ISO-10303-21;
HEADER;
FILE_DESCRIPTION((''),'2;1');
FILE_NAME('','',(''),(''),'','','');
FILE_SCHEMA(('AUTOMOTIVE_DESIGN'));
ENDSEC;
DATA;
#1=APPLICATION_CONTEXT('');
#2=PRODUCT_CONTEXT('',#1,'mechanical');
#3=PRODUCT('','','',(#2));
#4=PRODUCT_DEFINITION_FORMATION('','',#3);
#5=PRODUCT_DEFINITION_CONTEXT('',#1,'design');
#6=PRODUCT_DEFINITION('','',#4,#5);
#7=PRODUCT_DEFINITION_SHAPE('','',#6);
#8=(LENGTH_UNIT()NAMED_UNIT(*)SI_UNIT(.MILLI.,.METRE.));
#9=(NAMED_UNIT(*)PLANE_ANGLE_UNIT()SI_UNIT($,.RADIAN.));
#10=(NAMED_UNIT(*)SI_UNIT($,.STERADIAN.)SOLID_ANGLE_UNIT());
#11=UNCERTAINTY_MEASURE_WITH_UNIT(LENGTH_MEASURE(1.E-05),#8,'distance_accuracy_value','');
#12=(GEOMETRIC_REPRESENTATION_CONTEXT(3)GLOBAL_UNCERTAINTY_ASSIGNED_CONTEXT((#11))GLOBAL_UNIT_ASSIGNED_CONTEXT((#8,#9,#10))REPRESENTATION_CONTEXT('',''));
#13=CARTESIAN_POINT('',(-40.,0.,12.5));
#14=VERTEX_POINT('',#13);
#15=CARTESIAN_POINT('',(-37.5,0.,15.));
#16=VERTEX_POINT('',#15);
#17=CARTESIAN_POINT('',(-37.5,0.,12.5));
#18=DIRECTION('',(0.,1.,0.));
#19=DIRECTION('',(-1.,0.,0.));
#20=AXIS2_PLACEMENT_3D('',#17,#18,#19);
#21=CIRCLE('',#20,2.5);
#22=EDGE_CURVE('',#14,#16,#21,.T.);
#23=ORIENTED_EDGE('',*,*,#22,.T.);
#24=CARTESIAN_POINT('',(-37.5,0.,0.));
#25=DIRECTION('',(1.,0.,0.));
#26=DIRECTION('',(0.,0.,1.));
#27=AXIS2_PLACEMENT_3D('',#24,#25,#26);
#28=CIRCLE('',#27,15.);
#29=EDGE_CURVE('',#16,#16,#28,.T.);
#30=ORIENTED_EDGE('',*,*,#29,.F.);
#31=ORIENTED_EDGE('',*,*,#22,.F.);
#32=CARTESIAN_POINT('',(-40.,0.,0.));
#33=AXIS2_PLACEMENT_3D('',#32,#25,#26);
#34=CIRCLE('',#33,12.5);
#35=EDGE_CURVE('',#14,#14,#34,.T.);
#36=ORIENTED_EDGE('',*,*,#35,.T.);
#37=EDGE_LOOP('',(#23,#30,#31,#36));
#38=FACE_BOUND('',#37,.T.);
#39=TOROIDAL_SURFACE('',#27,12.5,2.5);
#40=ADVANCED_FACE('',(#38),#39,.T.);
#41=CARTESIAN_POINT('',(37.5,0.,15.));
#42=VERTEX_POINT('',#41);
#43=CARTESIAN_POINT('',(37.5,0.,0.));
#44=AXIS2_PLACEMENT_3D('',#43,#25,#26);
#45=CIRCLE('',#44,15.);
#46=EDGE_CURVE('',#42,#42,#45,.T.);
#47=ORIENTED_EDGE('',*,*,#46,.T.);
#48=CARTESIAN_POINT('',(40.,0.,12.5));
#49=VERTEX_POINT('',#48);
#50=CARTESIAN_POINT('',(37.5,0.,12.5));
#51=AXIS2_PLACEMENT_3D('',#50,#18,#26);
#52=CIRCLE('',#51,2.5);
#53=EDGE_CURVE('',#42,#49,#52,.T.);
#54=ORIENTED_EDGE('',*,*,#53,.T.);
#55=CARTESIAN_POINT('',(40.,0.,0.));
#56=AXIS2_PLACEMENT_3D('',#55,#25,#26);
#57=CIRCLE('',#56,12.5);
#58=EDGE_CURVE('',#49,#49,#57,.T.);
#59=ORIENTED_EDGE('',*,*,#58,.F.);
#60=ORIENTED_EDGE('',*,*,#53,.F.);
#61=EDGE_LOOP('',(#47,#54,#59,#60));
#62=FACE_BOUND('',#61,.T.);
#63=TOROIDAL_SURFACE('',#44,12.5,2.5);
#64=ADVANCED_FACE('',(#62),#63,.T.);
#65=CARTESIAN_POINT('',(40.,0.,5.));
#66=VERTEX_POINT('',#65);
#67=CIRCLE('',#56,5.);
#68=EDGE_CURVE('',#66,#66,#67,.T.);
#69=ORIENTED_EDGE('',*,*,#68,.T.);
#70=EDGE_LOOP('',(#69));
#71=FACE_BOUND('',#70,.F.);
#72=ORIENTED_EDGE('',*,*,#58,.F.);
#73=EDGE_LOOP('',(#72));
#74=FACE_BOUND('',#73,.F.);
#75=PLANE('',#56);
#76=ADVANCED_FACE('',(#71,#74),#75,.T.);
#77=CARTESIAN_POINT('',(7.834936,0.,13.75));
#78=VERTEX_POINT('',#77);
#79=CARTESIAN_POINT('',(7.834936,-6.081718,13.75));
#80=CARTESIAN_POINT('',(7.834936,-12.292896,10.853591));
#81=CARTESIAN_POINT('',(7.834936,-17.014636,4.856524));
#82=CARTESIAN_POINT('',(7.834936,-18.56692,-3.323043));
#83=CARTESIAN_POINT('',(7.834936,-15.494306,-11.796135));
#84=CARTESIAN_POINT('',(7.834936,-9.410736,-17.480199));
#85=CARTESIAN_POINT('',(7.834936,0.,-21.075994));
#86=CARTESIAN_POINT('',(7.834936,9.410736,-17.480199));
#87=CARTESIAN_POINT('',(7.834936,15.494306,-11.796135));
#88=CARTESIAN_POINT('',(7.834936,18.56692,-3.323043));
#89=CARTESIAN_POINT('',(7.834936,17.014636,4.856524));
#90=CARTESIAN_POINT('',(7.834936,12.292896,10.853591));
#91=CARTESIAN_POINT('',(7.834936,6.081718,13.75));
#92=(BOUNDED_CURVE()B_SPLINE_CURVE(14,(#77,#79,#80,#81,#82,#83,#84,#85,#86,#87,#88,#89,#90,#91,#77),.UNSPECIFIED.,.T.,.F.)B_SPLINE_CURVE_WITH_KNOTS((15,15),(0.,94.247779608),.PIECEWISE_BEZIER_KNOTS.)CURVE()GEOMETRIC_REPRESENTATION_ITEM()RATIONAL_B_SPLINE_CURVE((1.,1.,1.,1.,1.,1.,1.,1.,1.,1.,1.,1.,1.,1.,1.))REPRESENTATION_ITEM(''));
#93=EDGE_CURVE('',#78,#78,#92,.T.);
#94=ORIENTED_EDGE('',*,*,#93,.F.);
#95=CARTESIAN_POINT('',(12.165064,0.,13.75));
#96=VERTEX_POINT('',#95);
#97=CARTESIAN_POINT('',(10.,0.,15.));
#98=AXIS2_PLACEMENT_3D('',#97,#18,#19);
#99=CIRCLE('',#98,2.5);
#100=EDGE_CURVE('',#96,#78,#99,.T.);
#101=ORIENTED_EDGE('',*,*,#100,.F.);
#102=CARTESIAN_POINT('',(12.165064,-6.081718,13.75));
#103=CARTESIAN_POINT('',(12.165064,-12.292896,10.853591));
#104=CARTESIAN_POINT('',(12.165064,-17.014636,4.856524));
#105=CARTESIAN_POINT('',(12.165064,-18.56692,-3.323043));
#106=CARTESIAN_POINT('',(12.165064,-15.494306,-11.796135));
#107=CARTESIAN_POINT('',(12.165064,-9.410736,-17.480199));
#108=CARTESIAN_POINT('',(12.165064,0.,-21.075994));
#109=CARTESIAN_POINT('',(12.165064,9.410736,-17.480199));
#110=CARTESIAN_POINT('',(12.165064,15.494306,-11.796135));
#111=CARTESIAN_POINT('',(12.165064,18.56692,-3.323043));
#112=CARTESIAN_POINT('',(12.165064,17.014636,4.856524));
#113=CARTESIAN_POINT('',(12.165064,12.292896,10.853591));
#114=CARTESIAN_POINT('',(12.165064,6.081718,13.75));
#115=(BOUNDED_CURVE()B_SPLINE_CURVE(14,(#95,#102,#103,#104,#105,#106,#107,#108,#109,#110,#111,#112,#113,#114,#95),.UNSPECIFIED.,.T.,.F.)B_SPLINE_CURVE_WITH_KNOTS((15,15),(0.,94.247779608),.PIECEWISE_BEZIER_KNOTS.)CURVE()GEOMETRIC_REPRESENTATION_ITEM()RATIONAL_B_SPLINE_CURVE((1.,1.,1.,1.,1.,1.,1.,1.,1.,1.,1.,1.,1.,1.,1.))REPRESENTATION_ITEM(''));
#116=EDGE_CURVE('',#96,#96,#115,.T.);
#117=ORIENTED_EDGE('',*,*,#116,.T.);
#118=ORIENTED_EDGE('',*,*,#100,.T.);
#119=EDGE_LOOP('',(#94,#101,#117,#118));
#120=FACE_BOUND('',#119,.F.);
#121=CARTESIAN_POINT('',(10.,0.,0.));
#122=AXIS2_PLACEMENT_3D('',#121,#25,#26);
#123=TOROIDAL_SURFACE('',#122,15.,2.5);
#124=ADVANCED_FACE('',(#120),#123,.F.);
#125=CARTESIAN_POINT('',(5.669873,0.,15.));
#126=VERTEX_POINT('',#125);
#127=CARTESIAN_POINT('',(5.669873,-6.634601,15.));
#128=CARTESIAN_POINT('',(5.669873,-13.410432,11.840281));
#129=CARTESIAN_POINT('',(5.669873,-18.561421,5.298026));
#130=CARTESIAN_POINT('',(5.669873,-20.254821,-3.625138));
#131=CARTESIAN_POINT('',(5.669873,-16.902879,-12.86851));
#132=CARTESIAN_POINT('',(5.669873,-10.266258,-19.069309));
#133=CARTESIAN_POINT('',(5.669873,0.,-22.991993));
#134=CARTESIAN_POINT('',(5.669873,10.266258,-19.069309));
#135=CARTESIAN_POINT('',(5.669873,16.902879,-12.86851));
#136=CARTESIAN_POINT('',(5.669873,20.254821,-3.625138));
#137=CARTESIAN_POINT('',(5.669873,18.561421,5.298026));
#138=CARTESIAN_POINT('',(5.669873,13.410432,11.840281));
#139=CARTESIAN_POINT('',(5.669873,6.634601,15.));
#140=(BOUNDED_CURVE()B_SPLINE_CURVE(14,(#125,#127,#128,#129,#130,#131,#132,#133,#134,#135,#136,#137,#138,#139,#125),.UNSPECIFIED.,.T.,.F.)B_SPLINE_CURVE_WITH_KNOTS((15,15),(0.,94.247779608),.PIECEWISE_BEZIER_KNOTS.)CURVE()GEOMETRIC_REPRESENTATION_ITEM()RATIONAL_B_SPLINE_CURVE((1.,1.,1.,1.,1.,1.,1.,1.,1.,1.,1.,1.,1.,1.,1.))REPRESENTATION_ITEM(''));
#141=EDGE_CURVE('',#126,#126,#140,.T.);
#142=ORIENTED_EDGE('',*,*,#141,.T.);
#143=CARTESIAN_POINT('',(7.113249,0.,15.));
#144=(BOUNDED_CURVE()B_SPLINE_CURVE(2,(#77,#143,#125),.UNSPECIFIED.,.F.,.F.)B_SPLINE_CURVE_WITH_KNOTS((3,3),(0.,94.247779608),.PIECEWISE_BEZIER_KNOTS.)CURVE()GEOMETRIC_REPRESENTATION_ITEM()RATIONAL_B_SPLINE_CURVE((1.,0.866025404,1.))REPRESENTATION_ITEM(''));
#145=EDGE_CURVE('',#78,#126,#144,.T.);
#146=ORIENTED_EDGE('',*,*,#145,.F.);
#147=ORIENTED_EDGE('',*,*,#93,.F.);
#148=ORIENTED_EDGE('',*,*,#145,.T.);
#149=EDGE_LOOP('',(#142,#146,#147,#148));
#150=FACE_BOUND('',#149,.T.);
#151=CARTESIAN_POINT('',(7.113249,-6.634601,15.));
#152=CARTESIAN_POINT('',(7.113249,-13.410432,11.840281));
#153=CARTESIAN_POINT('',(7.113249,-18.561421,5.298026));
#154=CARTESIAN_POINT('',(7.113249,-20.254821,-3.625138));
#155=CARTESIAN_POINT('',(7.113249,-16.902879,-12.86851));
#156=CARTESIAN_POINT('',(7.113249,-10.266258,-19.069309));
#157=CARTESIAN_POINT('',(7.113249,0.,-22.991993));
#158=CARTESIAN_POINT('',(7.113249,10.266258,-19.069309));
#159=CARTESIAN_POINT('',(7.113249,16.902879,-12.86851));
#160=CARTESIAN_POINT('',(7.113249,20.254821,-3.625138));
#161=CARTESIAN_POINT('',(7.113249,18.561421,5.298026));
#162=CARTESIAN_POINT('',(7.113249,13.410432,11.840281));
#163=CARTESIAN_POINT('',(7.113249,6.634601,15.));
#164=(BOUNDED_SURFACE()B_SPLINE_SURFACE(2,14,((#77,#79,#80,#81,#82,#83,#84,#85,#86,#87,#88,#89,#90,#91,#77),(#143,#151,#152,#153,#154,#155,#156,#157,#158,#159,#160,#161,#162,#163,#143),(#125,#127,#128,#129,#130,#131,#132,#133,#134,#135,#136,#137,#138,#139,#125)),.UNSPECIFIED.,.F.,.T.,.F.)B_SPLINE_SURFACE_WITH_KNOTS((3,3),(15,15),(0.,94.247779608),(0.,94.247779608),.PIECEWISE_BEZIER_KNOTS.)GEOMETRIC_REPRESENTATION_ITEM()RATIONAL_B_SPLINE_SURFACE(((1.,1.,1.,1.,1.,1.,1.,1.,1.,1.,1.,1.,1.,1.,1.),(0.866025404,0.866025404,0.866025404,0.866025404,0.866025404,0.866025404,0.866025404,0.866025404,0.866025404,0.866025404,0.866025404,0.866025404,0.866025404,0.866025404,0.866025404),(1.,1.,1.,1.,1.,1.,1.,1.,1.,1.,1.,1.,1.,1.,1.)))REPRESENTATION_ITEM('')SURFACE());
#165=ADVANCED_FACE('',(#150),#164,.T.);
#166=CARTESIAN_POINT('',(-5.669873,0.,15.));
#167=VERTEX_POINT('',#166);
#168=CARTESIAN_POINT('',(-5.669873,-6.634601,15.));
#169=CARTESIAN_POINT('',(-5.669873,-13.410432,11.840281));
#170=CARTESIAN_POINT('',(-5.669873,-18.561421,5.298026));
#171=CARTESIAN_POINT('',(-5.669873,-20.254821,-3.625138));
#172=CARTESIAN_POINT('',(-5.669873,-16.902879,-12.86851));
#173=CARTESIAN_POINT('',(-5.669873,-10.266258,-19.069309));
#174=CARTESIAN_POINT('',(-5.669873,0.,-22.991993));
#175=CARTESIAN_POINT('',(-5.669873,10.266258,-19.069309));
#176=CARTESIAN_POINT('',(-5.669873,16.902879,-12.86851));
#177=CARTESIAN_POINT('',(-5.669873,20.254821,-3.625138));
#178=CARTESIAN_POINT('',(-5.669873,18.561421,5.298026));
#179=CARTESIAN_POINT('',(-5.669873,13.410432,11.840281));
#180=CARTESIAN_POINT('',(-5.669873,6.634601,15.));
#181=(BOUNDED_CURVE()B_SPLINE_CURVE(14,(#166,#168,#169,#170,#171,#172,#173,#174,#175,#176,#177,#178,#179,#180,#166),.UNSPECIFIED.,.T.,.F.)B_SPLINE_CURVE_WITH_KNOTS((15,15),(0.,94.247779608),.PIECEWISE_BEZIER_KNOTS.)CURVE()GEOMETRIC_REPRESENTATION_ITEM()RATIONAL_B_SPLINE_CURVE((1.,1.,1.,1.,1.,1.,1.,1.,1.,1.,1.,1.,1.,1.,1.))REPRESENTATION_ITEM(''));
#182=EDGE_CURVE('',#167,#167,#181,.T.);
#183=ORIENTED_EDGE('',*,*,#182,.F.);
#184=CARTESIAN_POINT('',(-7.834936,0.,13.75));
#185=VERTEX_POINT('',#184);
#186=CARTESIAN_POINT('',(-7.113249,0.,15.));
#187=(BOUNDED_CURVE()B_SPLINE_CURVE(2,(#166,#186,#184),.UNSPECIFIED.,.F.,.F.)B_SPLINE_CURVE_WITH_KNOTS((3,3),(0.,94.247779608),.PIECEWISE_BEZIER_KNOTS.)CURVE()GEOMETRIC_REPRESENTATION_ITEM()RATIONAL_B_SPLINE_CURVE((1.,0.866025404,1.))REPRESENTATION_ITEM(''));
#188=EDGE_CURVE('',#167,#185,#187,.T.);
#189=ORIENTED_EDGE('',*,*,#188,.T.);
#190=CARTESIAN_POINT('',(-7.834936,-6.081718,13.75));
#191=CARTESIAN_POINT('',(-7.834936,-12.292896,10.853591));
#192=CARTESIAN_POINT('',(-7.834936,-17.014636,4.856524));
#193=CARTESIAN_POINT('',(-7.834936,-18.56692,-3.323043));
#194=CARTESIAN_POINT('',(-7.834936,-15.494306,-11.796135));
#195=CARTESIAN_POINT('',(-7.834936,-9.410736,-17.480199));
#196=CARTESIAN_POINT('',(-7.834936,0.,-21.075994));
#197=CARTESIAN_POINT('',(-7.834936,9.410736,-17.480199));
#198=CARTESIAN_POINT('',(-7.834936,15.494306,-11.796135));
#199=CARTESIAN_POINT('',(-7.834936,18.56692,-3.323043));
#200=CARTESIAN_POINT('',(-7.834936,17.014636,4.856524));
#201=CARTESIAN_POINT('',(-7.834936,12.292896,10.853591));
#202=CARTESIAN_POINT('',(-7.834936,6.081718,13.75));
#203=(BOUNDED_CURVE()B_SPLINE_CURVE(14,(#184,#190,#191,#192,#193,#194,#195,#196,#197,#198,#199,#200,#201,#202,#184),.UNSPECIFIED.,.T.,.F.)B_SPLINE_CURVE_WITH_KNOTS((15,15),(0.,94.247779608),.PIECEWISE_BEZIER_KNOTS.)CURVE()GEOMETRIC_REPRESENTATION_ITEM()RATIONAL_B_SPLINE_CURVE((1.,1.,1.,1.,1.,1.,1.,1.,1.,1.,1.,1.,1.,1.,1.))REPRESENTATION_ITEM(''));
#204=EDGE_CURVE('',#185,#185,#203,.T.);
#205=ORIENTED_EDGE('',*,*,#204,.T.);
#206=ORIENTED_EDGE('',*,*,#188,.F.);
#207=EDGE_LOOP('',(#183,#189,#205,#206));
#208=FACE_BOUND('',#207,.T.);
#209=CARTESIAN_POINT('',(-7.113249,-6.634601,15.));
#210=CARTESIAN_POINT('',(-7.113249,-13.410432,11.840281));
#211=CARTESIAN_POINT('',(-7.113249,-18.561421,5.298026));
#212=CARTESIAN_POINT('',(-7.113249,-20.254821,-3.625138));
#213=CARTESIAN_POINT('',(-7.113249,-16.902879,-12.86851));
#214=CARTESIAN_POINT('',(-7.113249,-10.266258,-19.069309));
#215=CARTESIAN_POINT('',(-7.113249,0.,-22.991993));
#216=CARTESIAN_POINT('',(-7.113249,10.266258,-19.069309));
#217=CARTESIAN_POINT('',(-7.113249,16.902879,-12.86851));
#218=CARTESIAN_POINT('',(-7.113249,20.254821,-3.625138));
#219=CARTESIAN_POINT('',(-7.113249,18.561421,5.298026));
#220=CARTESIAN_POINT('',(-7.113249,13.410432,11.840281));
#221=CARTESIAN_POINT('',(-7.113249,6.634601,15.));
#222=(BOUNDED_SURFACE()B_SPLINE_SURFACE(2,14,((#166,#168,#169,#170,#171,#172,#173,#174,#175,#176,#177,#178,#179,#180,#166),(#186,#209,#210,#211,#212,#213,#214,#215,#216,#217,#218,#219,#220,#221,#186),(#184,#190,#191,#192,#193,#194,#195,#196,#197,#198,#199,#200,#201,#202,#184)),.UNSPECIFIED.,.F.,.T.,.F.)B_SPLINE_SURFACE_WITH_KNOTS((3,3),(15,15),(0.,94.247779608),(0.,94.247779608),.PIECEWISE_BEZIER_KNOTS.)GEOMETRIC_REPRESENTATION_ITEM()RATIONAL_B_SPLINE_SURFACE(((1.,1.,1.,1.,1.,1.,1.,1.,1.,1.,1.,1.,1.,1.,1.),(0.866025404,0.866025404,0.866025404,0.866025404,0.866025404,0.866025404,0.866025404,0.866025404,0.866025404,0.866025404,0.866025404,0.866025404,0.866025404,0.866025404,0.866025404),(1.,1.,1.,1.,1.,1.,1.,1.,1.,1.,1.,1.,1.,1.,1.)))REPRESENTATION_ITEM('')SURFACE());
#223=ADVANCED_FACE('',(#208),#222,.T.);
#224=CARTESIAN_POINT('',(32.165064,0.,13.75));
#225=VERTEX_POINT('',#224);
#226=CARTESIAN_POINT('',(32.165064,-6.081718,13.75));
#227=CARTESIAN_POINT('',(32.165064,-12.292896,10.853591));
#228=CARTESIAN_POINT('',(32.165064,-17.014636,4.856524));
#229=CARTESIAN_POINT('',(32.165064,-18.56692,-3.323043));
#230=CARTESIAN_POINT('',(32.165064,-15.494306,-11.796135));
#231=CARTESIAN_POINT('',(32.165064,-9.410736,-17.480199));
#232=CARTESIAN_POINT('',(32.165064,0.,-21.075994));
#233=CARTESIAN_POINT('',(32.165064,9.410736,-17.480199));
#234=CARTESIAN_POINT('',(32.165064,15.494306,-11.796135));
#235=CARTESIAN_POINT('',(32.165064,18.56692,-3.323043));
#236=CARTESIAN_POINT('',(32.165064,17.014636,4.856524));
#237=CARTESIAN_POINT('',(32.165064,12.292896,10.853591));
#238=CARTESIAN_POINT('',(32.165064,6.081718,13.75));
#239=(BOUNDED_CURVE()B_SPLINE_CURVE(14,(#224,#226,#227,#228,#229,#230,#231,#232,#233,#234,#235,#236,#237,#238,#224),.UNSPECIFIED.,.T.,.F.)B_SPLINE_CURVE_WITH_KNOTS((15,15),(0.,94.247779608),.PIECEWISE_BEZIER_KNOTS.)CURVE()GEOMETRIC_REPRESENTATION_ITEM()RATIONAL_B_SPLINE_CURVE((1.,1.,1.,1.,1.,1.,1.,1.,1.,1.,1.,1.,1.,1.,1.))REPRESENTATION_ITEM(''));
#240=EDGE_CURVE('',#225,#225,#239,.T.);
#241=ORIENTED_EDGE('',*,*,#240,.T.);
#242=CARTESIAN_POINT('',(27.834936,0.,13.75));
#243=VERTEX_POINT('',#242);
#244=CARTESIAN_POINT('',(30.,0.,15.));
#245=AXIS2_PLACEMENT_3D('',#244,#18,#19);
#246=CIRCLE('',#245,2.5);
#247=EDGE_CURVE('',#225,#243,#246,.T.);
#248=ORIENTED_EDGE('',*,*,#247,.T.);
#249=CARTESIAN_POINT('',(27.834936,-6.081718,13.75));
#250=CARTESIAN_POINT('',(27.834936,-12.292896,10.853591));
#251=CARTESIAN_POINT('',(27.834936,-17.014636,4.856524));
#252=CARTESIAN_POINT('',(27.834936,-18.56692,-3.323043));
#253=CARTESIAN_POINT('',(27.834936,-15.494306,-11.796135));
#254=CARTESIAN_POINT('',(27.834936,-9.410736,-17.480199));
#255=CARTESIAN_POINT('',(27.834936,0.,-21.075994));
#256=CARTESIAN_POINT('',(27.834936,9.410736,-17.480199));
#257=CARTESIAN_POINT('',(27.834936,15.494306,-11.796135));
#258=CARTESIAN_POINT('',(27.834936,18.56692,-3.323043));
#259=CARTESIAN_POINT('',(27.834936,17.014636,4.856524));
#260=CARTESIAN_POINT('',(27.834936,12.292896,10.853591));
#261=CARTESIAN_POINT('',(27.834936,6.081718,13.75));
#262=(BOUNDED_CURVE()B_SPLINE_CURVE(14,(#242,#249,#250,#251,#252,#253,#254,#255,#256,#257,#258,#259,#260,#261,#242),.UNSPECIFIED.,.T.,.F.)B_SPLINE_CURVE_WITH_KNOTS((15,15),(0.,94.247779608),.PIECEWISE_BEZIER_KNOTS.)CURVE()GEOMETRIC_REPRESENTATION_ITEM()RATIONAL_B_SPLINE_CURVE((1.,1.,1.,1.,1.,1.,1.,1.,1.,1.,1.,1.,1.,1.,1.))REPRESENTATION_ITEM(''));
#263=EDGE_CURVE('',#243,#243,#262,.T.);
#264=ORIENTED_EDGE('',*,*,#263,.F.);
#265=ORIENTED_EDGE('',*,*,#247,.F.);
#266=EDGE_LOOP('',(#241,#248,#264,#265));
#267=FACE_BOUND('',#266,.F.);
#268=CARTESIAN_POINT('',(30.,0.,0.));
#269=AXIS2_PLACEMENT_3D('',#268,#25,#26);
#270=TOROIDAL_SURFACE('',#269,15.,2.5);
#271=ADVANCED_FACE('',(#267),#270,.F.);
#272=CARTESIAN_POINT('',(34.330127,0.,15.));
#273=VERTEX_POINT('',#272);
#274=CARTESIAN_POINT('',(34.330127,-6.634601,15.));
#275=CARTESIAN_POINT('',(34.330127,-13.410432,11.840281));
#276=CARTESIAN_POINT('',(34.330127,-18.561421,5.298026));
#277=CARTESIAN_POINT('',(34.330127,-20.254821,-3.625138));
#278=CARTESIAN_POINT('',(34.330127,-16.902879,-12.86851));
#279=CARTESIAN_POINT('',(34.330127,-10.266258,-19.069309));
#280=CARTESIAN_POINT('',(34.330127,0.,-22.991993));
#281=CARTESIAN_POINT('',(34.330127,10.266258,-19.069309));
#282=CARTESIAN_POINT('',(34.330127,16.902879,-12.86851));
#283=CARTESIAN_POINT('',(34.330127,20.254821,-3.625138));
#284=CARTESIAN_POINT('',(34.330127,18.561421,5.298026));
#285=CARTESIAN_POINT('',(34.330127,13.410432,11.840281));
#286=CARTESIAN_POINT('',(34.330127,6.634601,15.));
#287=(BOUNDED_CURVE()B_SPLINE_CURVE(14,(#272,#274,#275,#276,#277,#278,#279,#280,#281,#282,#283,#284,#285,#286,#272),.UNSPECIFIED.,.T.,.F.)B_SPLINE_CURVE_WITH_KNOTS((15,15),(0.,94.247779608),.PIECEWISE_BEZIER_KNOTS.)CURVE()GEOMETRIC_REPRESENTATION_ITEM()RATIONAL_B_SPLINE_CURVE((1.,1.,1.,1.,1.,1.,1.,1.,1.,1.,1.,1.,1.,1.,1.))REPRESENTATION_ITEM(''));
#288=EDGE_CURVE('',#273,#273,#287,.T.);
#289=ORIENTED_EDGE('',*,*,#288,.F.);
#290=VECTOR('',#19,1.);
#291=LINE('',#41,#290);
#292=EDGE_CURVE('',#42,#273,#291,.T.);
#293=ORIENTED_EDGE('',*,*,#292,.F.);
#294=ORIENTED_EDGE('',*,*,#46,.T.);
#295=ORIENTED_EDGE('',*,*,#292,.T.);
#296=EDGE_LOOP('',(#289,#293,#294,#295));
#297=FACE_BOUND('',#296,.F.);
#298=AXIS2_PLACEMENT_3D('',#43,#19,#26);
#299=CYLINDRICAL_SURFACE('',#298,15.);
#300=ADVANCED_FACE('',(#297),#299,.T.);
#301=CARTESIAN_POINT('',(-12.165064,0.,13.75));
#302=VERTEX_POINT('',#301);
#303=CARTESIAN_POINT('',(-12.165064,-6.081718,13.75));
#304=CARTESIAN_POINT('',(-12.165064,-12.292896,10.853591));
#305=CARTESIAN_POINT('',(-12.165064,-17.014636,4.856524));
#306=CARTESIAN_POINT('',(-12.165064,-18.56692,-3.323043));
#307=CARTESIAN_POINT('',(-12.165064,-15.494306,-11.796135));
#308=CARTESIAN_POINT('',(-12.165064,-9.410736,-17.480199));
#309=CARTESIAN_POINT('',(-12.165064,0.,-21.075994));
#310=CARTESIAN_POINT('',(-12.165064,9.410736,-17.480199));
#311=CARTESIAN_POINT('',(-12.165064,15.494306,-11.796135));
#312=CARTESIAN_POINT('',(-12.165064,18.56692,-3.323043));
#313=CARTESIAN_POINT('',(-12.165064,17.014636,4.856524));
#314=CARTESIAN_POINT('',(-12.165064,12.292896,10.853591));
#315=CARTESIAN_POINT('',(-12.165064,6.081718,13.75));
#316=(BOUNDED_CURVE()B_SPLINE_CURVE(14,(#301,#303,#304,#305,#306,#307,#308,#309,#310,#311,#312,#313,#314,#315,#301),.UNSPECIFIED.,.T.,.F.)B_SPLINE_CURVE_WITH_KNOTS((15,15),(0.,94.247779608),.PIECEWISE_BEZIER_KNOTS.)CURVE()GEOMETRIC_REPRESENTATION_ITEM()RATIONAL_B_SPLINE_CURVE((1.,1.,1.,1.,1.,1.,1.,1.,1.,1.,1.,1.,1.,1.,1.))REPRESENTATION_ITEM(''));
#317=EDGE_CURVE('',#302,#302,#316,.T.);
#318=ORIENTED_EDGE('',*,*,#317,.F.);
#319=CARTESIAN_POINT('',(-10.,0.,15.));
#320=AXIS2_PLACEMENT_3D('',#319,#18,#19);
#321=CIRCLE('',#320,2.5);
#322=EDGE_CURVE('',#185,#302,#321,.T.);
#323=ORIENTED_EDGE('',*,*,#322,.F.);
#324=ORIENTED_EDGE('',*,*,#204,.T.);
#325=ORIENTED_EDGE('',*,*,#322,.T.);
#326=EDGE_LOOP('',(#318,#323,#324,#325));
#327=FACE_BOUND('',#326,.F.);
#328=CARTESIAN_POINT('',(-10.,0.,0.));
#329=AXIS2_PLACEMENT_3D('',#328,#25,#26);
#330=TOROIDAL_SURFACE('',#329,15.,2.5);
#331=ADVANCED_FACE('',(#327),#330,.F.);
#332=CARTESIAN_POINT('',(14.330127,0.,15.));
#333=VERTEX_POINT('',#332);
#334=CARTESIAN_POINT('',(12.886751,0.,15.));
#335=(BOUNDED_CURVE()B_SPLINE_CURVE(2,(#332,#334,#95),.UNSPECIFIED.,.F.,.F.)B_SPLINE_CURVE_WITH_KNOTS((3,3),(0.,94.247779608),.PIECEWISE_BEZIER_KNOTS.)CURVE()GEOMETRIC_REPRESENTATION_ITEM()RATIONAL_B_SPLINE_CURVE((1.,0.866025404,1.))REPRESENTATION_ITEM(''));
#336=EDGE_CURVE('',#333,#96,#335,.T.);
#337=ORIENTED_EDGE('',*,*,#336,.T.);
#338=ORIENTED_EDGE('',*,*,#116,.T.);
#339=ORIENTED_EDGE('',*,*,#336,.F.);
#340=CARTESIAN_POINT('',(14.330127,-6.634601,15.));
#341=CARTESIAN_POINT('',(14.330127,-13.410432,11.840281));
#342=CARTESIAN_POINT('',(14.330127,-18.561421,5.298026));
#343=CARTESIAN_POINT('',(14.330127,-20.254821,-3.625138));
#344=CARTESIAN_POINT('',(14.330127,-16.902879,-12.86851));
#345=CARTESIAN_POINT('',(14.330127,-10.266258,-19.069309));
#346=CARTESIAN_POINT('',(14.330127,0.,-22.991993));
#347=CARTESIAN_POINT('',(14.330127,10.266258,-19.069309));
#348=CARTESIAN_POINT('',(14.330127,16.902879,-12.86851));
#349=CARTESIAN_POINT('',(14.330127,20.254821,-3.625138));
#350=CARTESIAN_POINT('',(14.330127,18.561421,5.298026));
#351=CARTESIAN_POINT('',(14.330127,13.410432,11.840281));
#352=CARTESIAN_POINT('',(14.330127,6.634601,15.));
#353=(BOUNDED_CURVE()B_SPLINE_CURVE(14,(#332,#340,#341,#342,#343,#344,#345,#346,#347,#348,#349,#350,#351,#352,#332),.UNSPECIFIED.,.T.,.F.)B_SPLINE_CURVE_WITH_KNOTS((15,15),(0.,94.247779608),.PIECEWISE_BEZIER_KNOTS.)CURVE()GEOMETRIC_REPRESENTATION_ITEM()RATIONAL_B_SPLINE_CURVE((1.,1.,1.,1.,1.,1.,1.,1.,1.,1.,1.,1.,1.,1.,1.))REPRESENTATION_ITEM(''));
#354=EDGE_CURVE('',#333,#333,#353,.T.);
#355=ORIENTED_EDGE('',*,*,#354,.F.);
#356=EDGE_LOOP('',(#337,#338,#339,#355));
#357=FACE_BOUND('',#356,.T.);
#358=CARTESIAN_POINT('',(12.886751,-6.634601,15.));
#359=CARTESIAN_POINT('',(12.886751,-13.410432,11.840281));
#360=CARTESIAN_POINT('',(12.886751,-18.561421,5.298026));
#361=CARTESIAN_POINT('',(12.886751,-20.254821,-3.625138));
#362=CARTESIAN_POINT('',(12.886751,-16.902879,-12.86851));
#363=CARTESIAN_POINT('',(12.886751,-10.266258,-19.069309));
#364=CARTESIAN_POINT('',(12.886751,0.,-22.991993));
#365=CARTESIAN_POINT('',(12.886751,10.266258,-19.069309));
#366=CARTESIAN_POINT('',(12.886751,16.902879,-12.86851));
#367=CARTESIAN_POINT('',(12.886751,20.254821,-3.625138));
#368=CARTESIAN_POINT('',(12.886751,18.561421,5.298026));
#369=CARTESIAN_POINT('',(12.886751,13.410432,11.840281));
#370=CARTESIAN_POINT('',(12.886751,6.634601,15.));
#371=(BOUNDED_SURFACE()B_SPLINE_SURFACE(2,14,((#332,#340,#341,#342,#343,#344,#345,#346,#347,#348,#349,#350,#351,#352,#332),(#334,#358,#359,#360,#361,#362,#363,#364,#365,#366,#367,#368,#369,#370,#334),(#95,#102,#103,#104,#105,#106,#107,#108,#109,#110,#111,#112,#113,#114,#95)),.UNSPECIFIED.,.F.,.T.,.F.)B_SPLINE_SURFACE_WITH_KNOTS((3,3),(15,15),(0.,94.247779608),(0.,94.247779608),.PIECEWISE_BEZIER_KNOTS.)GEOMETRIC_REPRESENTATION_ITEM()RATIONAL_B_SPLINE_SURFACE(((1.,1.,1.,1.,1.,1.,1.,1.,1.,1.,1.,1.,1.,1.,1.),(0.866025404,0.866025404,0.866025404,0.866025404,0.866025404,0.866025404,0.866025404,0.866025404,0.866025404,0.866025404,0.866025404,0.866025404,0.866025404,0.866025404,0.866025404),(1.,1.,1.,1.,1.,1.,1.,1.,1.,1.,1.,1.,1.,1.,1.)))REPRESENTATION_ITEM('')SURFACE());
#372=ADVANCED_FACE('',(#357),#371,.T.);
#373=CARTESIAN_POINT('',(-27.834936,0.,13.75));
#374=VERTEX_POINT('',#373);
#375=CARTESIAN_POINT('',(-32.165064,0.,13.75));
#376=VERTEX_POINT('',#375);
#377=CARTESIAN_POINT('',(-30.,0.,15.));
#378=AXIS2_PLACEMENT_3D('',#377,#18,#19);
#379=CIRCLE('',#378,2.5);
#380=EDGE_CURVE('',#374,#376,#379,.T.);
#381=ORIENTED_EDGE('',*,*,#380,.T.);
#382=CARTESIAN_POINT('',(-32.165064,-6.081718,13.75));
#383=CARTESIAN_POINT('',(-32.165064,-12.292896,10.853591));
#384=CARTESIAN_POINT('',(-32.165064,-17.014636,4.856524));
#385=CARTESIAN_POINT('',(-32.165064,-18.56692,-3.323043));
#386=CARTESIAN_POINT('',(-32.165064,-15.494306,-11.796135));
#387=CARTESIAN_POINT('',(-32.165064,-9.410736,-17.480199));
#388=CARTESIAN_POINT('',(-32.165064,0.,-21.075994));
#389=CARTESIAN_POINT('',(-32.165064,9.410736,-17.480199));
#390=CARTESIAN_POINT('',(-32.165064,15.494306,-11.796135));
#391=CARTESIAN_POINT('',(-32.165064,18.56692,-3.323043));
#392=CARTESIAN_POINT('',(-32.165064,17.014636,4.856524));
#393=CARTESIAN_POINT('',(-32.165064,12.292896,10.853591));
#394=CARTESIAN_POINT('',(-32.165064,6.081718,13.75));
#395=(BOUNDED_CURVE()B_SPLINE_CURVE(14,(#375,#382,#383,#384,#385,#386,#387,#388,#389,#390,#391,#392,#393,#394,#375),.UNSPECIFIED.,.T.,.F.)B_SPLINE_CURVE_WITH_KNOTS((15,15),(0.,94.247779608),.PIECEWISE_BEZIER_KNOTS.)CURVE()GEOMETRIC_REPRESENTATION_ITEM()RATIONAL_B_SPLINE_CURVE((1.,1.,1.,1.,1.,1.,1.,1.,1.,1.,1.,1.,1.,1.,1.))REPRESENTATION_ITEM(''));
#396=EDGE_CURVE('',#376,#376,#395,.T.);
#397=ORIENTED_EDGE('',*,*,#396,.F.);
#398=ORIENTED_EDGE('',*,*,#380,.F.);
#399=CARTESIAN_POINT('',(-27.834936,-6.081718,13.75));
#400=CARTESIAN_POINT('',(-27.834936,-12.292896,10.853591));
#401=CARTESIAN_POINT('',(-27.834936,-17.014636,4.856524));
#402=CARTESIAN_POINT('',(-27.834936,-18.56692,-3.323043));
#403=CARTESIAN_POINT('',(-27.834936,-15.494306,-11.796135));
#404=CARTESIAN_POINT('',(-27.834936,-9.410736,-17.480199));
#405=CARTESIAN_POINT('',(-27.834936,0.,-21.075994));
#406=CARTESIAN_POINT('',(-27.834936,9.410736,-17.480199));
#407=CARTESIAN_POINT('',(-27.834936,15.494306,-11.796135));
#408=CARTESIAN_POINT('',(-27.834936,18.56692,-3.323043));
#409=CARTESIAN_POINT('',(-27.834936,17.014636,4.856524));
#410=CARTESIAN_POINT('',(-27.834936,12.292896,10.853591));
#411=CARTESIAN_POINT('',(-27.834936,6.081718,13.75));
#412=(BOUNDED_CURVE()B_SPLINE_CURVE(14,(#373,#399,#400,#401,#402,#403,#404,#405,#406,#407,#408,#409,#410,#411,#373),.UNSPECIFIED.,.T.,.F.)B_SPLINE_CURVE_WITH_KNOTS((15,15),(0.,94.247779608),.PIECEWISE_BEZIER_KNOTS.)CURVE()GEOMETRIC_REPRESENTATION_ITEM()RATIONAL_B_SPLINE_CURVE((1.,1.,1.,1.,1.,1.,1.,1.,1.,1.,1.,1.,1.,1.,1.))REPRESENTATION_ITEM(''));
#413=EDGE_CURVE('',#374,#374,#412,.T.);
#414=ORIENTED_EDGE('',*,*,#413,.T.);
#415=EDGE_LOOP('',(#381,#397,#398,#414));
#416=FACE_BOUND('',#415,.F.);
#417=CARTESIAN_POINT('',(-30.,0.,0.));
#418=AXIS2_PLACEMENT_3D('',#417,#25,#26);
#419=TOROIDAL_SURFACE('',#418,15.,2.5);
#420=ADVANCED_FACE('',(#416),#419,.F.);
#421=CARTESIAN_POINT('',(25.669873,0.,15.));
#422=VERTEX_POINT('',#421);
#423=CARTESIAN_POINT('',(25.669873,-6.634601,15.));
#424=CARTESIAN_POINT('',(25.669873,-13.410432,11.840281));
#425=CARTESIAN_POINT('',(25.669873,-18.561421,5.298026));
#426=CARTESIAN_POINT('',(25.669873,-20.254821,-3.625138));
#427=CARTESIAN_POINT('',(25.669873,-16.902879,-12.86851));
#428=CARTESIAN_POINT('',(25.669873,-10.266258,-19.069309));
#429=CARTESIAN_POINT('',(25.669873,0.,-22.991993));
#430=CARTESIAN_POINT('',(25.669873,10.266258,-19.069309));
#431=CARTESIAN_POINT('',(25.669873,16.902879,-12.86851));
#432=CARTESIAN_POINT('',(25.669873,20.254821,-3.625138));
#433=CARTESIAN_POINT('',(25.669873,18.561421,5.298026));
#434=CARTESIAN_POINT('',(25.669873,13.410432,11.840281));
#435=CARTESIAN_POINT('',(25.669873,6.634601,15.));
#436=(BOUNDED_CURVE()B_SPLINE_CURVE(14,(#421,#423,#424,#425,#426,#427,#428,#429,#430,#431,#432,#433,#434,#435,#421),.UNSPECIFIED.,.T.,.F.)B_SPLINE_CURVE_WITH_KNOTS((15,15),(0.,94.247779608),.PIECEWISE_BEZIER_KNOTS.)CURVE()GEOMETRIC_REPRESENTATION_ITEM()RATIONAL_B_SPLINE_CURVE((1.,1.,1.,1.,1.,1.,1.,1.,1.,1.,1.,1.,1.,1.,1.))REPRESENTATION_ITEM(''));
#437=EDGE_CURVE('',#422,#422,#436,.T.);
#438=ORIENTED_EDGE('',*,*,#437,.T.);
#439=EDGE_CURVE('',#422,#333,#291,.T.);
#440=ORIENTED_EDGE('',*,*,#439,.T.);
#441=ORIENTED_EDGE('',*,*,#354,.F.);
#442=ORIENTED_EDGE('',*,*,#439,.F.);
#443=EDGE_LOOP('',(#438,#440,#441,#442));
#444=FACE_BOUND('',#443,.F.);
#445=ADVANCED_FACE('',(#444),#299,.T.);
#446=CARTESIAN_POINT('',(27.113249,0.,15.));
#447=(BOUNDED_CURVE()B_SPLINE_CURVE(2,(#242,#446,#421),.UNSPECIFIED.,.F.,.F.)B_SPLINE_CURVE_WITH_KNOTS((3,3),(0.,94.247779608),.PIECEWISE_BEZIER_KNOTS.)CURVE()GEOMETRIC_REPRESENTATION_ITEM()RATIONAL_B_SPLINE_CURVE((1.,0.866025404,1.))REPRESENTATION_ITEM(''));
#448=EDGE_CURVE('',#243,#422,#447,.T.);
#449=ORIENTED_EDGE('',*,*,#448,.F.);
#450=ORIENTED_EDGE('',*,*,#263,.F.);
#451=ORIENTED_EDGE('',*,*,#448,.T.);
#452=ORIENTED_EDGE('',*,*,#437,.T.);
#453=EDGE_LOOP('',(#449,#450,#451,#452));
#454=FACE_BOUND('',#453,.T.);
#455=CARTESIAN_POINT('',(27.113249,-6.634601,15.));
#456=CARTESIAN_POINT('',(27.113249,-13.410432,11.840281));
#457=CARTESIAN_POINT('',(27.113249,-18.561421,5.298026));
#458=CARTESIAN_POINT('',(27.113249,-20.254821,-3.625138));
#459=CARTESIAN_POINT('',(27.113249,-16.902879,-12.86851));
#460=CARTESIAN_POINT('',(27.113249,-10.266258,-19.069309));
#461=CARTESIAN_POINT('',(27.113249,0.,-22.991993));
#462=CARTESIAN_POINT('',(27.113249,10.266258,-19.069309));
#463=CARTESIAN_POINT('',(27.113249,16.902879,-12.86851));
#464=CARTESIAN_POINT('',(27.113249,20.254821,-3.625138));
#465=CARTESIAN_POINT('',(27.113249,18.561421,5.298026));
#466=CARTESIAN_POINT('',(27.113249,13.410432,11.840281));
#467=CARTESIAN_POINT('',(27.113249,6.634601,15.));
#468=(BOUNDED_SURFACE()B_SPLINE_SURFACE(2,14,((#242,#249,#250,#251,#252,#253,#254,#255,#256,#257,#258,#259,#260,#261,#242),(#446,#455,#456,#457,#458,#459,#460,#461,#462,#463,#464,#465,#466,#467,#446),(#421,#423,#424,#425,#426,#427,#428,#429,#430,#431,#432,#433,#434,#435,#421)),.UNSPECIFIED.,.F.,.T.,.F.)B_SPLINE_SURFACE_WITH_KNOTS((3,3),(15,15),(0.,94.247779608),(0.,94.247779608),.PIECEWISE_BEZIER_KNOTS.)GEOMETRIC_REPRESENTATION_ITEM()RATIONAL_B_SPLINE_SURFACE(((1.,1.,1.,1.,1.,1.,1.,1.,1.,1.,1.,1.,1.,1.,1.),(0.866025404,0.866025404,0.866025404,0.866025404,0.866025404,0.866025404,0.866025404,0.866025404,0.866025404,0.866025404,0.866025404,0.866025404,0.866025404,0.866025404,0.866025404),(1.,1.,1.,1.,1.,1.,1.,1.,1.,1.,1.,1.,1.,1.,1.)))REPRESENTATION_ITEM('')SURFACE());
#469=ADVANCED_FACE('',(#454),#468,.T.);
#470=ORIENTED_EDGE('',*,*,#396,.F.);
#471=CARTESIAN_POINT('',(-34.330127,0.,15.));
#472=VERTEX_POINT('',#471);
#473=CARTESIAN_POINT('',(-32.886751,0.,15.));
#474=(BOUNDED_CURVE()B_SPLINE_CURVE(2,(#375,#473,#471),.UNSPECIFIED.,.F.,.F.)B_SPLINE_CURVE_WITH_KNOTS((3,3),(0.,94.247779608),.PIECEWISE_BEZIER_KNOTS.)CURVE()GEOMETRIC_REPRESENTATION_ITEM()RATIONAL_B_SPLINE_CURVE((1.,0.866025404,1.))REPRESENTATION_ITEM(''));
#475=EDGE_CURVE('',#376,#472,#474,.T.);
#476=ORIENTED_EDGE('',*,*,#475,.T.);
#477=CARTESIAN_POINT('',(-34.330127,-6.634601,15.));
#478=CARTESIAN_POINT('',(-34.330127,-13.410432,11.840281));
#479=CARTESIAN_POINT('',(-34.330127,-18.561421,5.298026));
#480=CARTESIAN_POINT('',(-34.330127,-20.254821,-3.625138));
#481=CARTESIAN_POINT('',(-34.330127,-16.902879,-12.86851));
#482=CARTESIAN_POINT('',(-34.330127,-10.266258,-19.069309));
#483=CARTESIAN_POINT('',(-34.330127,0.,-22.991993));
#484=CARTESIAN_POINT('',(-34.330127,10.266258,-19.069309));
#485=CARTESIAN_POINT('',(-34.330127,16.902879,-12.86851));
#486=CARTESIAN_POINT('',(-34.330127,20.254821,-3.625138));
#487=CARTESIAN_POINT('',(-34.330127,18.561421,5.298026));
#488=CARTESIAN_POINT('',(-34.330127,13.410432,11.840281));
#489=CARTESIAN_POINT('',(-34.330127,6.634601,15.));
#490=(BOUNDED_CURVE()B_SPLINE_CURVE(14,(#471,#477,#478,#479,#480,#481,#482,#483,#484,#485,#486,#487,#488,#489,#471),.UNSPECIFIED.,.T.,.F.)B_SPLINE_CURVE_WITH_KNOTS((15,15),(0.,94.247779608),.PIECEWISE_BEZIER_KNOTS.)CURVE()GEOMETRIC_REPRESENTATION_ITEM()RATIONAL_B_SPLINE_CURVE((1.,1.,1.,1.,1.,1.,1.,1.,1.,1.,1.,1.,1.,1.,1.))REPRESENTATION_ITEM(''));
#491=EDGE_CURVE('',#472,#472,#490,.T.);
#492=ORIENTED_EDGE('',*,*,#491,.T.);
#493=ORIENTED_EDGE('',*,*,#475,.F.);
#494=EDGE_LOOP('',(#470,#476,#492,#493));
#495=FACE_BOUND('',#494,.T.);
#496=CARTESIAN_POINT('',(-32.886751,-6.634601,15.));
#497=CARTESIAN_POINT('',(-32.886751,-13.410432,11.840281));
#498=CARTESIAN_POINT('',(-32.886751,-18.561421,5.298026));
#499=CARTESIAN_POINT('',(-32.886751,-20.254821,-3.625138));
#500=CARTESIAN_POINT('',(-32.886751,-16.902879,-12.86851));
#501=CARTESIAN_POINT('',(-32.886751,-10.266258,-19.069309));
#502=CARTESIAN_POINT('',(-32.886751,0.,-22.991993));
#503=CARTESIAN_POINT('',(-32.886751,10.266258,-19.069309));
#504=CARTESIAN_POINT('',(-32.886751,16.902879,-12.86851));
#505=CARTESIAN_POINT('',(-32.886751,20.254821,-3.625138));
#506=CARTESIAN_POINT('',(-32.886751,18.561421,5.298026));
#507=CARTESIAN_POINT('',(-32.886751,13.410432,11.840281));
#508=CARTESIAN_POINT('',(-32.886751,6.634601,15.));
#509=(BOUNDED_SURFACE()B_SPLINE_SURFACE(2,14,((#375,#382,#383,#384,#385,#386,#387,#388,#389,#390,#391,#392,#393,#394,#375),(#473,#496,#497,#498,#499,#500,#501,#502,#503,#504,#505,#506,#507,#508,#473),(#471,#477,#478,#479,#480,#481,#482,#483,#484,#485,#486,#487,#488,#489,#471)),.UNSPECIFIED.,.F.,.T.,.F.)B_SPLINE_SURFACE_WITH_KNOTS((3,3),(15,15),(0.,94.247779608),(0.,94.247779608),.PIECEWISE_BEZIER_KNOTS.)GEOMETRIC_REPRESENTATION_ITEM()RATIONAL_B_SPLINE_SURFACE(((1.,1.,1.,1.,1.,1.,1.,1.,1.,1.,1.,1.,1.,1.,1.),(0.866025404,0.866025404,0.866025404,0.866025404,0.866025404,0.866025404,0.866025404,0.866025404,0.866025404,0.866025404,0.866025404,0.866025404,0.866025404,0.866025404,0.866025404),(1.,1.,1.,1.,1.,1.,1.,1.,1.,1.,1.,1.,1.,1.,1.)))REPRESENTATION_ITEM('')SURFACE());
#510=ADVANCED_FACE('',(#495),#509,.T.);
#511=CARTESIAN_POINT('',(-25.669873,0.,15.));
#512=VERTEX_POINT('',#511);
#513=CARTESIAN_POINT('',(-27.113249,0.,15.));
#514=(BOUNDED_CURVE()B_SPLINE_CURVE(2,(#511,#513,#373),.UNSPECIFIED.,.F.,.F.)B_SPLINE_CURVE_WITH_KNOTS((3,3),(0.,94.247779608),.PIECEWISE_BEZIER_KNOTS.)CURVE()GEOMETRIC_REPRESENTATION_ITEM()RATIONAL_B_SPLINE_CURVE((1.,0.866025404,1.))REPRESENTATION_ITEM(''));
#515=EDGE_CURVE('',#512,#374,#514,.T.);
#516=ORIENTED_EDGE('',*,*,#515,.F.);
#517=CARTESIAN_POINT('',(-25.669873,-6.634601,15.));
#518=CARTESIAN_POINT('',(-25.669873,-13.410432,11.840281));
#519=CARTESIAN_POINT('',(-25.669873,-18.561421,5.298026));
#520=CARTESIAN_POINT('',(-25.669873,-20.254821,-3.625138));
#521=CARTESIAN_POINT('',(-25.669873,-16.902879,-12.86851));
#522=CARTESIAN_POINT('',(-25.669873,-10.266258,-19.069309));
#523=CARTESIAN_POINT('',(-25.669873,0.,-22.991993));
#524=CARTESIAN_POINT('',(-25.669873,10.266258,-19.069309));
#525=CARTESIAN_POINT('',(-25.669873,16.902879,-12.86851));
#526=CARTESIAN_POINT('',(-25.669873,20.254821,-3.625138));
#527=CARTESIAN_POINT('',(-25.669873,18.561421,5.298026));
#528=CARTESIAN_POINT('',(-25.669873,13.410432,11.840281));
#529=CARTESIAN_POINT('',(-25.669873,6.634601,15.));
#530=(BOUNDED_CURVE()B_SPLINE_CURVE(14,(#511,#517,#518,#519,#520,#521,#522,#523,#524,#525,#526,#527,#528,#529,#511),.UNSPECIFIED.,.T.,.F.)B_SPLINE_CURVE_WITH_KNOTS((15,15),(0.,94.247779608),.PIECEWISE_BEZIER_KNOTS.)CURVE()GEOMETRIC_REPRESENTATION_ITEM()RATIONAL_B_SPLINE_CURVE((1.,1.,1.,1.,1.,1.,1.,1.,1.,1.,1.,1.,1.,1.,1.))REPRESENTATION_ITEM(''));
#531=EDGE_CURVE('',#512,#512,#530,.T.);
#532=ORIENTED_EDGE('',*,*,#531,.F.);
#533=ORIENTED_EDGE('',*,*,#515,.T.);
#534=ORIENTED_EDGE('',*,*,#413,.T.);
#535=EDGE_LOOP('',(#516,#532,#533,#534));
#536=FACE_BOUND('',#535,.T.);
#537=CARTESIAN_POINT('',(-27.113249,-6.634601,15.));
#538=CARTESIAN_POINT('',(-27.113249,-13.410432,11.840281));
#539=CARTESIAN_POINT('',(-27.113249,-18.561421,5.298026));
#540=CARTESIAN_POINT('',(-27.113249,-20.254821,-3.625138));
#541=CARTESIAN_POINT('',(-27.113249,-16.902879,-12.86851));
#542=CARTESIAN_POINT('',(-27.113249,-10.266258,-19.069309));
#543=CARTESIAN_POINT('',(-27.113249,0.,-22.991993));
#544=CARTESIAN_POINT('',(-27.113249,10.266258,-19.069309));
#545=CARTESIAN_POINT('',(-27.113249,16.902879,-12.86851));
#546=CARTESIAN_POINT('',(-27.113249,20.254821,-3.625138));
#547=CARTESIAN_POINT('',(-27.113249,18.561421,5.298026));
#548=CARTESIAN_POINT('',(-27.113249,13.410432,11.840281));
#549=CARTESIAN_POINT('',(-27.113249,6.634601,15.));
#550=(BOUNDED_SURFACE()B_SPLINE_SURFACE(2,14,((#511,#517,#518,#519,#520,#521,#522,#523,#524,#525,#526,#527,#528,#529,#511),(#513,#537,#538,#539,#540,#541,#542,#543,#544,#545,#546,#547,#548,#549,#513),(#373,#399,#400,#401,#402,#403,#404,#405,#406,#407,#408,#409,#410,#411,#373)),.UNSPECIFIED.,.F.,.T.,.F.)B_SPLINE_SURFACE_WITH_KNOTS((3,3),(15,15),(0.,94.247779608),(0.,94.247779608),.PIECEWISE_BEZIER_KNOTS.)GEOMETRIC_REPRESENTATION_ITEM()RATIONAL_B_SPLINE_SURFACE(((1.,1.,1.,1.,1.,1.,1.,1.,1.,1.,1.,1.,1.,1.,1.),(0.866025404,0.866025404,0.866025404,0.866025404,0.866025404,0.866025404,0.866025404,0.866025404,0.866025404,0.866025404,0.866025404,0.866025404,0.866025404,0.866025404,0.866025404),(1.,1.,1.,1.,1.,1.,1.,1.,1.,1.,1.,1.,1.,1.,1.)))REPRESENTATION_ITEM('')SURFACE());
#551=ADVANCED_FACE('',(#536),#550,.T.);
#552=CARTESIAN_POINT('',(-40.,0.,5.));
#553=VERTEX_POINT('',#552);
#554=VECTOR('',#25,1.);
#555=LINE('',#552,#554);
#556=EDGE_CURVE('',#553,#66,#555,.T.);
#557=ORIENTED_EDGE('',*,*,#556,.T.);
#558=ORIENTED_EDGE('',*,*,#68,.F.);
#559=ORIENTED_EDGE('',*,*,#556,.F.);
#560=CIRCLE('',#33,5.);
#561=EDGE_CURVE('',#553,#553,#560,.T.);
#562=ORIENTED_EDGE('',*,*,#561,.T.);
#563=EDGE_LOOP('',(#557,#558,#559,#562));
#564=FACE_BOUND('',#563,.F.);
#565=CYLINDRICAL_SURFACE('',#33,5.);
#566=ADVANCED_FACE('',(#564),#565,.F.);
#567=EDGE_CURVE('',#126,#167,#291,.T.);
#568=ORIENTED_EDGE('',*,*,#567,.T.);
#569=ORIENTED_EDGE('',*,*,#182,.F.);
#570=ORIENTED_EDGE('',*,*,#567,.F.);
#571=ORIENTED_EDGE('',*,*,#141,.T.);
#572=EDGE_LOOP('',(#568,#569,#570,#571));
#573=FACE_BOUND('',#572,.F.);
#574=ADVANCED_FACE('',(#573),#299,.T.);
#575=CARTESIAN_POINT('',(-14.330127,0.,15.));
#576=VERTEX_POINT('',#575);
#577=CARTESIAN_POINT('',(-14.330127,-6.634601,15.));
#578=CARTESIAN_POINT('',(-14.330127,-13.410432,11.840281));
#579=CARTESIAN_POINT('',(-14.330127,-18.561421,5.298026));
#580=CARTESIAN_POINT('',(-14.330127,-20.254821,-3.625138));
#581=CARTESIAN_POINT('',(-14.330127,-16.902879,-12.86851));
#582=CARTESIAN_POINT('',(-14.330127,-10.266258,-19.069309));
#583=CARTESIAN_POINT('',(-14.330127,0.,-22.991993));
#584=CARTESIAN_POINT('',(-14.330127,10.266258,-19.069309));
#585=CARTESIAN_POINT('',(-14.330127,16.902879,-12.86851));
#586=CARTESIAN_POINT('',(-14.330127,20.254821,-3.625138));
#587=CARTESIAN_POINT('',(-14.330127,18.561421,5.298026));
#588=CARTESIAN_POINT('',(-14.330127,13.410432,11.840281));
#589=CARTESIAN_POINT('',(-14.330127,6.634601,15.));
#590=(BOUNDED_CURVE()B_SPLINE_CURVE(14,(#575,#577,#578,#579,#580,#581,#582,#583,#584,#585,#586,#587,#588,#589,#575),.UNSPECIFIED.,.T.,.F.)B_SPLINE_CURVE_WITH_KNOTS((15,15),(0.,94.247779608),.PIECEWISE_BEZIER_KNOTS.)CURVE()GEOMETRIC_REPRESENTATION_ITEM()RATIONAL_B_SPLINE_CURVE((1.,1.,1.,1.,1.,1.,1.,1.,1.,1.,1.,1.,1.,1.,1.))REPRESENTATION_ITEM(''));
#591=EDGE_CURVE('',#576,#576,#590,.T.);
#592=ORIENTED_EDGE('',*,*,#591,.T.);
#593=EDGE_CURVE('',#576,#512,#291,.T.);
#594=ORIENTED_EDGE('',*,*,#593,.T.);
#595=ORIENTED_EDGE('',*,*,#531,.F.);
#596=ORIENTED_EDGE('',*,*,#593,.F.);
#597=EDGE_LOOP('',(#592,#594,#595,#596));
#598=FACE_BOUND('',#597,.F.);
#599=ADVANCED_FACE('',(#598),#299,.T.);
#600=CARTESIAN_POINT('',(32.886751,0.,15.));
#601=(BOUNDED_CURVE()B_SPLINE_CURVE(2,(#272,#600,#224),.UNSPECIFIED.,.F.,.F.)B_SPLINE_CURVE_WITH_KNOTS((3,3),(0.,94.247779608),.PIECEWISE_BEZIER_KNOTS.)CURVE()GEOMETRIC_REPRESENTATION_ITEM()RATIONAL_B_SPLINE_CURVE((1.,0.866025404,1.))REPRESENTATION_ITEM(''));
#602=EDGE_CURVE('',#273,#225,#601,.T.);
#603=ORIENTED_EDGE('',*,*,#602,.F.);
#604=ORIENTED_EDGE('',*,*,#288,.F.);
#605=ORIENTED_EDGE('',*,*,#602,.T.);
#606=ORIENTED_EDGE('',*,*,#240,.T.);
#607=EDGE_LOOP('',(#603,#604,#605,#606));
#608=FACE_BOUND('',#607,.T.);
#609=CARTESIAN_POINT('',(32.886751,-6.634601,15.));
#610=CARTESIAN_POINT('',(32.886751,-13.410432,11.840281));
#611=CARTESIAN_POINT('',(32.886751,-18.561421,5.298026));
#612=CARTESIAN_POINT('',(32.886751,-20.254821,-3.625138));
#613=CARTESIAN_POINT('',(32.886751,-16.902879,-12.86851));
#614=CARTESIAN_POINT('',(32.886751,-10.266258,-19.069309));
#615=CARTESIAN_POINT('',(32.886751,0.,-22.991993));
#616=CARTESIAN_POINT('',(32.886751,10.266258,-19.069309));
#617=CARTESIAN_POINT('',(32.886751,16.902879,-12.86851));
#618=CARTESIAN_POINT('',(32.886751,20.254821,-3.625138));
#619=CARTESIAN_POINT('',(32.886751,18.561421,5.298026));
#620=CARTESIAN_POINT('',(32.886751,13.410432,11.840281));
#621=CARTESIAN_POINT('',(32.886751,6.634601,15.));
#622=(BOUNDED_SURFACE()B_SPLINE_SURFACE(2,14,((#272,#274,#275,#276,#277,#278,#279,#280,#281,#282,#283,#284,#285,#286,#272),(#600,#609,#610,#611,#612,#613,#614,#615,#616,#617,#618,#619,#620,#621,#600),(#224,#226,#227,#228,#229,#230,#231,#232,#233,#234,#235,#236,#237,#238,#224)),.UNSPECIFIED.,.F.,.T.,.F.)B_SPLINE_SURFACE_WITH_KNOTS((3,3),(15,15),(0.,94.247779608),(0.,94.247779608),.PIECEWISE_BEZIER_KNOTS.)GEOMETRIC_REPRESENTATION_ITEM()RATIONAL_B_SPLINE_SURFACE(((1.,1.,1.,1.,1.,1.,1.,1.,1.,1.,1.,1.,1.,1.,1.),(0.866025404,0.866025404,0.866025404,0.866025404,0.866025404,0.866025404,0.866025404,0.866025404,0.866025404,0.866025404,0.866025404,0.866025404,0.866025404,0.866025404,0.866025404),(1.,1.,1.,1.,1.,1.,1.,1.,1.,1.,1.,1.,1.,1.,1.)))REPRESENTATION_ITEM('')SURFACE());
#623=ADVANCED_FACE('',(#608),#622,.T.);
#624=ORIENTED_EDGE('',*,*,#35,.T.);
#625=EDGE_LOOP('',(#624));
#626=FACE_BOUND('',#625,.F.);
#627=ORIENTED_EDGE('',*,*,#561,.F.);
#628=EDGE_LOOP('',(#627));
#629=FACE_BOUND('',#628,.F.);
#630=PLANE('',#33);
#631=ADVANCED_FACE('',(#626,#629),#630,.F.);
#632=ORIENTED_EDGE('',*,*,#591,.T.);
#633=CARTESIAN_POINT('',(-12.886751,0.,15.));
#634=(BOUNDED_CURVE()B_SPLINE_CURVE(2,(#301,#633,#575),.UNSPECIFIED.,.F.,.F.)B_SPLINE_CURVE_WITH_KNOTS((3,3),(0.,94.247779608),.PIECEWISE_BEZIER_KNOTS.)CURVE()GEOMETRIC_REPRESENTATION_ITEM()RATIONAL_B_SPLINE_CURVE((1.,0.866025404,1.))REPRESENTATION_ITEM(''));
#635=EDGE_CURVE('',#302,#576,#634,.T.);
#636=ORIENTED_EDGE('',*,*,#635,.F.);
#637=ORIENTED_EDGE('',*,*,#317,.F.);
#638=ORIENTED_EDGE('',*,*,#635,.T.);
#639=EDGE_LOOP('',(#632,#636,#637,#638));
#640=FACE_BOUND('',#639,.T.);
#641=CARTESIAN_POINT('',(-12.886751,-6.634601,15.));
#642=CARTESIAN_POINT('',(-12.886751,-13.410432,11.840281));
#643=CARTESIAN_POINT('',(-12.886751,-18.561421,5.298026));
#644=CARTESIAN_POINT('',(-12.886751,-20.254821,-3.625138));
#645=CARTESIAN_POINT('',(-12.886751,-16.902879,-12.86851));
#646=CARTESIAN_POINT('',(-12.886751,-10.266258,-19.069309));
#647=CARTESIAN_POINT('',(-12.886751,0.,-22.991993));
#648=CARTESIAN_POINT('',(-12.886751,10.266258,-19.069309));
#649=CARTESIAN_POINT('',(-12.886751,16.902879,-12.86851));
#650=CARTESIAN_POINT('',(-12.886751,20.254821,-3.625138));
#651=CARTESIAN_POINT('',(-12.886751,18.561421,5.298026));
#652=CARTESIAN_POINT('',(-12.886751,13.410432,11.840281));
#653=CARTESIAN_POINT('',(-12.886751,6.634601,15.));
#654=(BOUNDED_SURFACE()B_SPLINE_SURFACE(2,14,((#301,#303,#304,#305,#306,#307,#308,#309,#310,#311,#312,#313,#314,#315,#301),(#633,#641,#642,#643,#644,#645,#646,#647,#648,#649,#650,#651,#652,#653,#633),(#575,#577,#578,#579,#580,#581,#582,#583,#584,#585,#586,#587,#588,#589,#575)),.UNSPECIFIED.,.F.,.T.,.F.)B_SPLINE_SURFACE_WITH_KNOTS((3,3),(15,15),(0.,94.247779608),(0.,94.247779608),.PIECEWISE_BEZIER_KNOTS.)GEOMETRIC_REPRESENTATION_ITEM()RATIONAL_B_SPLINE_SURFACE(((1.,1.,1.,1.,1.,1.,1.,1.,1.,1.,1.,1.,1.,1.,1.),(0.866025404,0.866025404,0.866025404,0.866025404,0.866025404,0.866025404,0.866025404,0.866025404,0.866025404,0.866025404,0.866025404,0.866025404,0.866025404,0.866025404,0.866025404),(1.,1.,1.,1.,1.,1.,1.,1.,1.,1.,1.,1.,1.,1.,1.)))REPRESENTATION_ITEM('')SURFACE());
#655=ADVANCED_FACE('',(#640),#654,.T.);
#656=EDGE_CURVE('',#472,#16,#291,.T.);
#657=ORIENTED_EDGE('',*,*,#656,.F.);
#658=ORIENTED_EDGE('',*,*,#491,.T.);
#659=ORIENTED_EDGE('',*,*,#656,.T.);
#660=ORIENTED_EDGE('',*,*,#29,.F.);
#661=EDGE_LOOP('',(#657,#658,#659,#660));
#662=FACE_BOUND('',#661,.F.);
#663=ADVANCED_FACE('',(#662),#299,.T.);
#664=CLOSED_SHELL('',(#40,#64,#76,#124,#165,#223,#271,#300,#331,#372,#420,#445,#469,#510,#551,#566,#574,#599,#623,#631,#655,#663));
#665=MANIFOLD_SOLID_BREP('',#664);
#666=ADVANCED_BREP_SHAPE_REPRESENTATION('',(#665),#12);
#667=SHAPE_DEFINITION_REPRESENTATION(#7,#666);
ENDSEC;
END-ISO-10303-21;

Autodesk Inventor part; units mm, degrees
ref_plane "YZ Plane" through (0, 0, 0) normal (1, 0, 0) x (0, 1, 0)
ref_plane "XZ Plane" through (0, 0, 0) normal (0, 1, 0) x (-1, 0, 0)
ref_plane "XY Plane" through (0, 0, 0) normal (0, 0, 1) x (1, 0, 0)
sketch "Sketch1" plane through (0, 0, 0) normal (0, 1, 0) x (-1, 0, 0)
  line L0 (40, 0) -> (-40, 0)
  line L1 (40, 5) -> (-40, 5)
  line L2 (-40, 5) -> (-40, 12.5)
  line L3 (-37.5, 15) -> (37.5, 15)
  line L4 (40, 12.5) -> (40, 5)
  circle A0 centre (-30, 15) radius 2.5
  circle A1 centre (-10, 15) radius 2.5
  circle A2 centre (10, 15) radius 2.5
  circle A3 centre (30, 15) radius 2.5
  arc A4 (-37.5, 15) -> (-40, 12.5) centre (-37.5, 12.5) ccw
  arc A5 (40, 12.5) -> (37.5, 15) centre (37.5, 12.5) ccw
  point P0 (0, 0)
  point P1 (0, 0)
  point P2 (-40, 15)
  point P3 (40, 15)
  point P4 (32.5, 15)
  point P5 (27.5, 15)
  point P6 (12.5, 15)
  point P7 (7.5, 15)
  point P8 (-7.5, 15)
  point P9 (-12.5, 15)
  point P10 (-27.5, 15)
  point P11 (-32.5, 15)
  dimension "d0" = 80
  dimension "d1" = 80
  dimension "d2" = 10
  dimension "d4" = 5
  dimension "d5" = 5
  dimension "d6" = 5
  dimension "d7" = 5
  dimension "D1" = 20
  dimension "d9" = 20
  dimension "d10" = 20
  dimension "d11" = 10
  dimension "d12" = 2.5
  dimension "d14" = 10
revolve "Revolution1" add sketch "Sketch1" angle 360 about axis through (-40, 0, 0) along (1, 0, 0) contours L1 L2 A4 L3 A0 A1 A2 A3 A5 L4
fillet "Fillet1" radius 2.5 8 edges at (32.5, 0, -15) (27.5, 0, -15) (12.5, 0, -15) (7.5, 0, -15) (-7.5, 0, -15) (-12.5, 0, -15) (-27.5, 0, -15) (-32.5, 0, -15)
equation "\"d9\" = D1"
equation "\"d10\" = D1"
equation "\"d11\" = 0.5 * D1"
properties part number "Landing_Foam" material "Polystyrene, High Impact"
